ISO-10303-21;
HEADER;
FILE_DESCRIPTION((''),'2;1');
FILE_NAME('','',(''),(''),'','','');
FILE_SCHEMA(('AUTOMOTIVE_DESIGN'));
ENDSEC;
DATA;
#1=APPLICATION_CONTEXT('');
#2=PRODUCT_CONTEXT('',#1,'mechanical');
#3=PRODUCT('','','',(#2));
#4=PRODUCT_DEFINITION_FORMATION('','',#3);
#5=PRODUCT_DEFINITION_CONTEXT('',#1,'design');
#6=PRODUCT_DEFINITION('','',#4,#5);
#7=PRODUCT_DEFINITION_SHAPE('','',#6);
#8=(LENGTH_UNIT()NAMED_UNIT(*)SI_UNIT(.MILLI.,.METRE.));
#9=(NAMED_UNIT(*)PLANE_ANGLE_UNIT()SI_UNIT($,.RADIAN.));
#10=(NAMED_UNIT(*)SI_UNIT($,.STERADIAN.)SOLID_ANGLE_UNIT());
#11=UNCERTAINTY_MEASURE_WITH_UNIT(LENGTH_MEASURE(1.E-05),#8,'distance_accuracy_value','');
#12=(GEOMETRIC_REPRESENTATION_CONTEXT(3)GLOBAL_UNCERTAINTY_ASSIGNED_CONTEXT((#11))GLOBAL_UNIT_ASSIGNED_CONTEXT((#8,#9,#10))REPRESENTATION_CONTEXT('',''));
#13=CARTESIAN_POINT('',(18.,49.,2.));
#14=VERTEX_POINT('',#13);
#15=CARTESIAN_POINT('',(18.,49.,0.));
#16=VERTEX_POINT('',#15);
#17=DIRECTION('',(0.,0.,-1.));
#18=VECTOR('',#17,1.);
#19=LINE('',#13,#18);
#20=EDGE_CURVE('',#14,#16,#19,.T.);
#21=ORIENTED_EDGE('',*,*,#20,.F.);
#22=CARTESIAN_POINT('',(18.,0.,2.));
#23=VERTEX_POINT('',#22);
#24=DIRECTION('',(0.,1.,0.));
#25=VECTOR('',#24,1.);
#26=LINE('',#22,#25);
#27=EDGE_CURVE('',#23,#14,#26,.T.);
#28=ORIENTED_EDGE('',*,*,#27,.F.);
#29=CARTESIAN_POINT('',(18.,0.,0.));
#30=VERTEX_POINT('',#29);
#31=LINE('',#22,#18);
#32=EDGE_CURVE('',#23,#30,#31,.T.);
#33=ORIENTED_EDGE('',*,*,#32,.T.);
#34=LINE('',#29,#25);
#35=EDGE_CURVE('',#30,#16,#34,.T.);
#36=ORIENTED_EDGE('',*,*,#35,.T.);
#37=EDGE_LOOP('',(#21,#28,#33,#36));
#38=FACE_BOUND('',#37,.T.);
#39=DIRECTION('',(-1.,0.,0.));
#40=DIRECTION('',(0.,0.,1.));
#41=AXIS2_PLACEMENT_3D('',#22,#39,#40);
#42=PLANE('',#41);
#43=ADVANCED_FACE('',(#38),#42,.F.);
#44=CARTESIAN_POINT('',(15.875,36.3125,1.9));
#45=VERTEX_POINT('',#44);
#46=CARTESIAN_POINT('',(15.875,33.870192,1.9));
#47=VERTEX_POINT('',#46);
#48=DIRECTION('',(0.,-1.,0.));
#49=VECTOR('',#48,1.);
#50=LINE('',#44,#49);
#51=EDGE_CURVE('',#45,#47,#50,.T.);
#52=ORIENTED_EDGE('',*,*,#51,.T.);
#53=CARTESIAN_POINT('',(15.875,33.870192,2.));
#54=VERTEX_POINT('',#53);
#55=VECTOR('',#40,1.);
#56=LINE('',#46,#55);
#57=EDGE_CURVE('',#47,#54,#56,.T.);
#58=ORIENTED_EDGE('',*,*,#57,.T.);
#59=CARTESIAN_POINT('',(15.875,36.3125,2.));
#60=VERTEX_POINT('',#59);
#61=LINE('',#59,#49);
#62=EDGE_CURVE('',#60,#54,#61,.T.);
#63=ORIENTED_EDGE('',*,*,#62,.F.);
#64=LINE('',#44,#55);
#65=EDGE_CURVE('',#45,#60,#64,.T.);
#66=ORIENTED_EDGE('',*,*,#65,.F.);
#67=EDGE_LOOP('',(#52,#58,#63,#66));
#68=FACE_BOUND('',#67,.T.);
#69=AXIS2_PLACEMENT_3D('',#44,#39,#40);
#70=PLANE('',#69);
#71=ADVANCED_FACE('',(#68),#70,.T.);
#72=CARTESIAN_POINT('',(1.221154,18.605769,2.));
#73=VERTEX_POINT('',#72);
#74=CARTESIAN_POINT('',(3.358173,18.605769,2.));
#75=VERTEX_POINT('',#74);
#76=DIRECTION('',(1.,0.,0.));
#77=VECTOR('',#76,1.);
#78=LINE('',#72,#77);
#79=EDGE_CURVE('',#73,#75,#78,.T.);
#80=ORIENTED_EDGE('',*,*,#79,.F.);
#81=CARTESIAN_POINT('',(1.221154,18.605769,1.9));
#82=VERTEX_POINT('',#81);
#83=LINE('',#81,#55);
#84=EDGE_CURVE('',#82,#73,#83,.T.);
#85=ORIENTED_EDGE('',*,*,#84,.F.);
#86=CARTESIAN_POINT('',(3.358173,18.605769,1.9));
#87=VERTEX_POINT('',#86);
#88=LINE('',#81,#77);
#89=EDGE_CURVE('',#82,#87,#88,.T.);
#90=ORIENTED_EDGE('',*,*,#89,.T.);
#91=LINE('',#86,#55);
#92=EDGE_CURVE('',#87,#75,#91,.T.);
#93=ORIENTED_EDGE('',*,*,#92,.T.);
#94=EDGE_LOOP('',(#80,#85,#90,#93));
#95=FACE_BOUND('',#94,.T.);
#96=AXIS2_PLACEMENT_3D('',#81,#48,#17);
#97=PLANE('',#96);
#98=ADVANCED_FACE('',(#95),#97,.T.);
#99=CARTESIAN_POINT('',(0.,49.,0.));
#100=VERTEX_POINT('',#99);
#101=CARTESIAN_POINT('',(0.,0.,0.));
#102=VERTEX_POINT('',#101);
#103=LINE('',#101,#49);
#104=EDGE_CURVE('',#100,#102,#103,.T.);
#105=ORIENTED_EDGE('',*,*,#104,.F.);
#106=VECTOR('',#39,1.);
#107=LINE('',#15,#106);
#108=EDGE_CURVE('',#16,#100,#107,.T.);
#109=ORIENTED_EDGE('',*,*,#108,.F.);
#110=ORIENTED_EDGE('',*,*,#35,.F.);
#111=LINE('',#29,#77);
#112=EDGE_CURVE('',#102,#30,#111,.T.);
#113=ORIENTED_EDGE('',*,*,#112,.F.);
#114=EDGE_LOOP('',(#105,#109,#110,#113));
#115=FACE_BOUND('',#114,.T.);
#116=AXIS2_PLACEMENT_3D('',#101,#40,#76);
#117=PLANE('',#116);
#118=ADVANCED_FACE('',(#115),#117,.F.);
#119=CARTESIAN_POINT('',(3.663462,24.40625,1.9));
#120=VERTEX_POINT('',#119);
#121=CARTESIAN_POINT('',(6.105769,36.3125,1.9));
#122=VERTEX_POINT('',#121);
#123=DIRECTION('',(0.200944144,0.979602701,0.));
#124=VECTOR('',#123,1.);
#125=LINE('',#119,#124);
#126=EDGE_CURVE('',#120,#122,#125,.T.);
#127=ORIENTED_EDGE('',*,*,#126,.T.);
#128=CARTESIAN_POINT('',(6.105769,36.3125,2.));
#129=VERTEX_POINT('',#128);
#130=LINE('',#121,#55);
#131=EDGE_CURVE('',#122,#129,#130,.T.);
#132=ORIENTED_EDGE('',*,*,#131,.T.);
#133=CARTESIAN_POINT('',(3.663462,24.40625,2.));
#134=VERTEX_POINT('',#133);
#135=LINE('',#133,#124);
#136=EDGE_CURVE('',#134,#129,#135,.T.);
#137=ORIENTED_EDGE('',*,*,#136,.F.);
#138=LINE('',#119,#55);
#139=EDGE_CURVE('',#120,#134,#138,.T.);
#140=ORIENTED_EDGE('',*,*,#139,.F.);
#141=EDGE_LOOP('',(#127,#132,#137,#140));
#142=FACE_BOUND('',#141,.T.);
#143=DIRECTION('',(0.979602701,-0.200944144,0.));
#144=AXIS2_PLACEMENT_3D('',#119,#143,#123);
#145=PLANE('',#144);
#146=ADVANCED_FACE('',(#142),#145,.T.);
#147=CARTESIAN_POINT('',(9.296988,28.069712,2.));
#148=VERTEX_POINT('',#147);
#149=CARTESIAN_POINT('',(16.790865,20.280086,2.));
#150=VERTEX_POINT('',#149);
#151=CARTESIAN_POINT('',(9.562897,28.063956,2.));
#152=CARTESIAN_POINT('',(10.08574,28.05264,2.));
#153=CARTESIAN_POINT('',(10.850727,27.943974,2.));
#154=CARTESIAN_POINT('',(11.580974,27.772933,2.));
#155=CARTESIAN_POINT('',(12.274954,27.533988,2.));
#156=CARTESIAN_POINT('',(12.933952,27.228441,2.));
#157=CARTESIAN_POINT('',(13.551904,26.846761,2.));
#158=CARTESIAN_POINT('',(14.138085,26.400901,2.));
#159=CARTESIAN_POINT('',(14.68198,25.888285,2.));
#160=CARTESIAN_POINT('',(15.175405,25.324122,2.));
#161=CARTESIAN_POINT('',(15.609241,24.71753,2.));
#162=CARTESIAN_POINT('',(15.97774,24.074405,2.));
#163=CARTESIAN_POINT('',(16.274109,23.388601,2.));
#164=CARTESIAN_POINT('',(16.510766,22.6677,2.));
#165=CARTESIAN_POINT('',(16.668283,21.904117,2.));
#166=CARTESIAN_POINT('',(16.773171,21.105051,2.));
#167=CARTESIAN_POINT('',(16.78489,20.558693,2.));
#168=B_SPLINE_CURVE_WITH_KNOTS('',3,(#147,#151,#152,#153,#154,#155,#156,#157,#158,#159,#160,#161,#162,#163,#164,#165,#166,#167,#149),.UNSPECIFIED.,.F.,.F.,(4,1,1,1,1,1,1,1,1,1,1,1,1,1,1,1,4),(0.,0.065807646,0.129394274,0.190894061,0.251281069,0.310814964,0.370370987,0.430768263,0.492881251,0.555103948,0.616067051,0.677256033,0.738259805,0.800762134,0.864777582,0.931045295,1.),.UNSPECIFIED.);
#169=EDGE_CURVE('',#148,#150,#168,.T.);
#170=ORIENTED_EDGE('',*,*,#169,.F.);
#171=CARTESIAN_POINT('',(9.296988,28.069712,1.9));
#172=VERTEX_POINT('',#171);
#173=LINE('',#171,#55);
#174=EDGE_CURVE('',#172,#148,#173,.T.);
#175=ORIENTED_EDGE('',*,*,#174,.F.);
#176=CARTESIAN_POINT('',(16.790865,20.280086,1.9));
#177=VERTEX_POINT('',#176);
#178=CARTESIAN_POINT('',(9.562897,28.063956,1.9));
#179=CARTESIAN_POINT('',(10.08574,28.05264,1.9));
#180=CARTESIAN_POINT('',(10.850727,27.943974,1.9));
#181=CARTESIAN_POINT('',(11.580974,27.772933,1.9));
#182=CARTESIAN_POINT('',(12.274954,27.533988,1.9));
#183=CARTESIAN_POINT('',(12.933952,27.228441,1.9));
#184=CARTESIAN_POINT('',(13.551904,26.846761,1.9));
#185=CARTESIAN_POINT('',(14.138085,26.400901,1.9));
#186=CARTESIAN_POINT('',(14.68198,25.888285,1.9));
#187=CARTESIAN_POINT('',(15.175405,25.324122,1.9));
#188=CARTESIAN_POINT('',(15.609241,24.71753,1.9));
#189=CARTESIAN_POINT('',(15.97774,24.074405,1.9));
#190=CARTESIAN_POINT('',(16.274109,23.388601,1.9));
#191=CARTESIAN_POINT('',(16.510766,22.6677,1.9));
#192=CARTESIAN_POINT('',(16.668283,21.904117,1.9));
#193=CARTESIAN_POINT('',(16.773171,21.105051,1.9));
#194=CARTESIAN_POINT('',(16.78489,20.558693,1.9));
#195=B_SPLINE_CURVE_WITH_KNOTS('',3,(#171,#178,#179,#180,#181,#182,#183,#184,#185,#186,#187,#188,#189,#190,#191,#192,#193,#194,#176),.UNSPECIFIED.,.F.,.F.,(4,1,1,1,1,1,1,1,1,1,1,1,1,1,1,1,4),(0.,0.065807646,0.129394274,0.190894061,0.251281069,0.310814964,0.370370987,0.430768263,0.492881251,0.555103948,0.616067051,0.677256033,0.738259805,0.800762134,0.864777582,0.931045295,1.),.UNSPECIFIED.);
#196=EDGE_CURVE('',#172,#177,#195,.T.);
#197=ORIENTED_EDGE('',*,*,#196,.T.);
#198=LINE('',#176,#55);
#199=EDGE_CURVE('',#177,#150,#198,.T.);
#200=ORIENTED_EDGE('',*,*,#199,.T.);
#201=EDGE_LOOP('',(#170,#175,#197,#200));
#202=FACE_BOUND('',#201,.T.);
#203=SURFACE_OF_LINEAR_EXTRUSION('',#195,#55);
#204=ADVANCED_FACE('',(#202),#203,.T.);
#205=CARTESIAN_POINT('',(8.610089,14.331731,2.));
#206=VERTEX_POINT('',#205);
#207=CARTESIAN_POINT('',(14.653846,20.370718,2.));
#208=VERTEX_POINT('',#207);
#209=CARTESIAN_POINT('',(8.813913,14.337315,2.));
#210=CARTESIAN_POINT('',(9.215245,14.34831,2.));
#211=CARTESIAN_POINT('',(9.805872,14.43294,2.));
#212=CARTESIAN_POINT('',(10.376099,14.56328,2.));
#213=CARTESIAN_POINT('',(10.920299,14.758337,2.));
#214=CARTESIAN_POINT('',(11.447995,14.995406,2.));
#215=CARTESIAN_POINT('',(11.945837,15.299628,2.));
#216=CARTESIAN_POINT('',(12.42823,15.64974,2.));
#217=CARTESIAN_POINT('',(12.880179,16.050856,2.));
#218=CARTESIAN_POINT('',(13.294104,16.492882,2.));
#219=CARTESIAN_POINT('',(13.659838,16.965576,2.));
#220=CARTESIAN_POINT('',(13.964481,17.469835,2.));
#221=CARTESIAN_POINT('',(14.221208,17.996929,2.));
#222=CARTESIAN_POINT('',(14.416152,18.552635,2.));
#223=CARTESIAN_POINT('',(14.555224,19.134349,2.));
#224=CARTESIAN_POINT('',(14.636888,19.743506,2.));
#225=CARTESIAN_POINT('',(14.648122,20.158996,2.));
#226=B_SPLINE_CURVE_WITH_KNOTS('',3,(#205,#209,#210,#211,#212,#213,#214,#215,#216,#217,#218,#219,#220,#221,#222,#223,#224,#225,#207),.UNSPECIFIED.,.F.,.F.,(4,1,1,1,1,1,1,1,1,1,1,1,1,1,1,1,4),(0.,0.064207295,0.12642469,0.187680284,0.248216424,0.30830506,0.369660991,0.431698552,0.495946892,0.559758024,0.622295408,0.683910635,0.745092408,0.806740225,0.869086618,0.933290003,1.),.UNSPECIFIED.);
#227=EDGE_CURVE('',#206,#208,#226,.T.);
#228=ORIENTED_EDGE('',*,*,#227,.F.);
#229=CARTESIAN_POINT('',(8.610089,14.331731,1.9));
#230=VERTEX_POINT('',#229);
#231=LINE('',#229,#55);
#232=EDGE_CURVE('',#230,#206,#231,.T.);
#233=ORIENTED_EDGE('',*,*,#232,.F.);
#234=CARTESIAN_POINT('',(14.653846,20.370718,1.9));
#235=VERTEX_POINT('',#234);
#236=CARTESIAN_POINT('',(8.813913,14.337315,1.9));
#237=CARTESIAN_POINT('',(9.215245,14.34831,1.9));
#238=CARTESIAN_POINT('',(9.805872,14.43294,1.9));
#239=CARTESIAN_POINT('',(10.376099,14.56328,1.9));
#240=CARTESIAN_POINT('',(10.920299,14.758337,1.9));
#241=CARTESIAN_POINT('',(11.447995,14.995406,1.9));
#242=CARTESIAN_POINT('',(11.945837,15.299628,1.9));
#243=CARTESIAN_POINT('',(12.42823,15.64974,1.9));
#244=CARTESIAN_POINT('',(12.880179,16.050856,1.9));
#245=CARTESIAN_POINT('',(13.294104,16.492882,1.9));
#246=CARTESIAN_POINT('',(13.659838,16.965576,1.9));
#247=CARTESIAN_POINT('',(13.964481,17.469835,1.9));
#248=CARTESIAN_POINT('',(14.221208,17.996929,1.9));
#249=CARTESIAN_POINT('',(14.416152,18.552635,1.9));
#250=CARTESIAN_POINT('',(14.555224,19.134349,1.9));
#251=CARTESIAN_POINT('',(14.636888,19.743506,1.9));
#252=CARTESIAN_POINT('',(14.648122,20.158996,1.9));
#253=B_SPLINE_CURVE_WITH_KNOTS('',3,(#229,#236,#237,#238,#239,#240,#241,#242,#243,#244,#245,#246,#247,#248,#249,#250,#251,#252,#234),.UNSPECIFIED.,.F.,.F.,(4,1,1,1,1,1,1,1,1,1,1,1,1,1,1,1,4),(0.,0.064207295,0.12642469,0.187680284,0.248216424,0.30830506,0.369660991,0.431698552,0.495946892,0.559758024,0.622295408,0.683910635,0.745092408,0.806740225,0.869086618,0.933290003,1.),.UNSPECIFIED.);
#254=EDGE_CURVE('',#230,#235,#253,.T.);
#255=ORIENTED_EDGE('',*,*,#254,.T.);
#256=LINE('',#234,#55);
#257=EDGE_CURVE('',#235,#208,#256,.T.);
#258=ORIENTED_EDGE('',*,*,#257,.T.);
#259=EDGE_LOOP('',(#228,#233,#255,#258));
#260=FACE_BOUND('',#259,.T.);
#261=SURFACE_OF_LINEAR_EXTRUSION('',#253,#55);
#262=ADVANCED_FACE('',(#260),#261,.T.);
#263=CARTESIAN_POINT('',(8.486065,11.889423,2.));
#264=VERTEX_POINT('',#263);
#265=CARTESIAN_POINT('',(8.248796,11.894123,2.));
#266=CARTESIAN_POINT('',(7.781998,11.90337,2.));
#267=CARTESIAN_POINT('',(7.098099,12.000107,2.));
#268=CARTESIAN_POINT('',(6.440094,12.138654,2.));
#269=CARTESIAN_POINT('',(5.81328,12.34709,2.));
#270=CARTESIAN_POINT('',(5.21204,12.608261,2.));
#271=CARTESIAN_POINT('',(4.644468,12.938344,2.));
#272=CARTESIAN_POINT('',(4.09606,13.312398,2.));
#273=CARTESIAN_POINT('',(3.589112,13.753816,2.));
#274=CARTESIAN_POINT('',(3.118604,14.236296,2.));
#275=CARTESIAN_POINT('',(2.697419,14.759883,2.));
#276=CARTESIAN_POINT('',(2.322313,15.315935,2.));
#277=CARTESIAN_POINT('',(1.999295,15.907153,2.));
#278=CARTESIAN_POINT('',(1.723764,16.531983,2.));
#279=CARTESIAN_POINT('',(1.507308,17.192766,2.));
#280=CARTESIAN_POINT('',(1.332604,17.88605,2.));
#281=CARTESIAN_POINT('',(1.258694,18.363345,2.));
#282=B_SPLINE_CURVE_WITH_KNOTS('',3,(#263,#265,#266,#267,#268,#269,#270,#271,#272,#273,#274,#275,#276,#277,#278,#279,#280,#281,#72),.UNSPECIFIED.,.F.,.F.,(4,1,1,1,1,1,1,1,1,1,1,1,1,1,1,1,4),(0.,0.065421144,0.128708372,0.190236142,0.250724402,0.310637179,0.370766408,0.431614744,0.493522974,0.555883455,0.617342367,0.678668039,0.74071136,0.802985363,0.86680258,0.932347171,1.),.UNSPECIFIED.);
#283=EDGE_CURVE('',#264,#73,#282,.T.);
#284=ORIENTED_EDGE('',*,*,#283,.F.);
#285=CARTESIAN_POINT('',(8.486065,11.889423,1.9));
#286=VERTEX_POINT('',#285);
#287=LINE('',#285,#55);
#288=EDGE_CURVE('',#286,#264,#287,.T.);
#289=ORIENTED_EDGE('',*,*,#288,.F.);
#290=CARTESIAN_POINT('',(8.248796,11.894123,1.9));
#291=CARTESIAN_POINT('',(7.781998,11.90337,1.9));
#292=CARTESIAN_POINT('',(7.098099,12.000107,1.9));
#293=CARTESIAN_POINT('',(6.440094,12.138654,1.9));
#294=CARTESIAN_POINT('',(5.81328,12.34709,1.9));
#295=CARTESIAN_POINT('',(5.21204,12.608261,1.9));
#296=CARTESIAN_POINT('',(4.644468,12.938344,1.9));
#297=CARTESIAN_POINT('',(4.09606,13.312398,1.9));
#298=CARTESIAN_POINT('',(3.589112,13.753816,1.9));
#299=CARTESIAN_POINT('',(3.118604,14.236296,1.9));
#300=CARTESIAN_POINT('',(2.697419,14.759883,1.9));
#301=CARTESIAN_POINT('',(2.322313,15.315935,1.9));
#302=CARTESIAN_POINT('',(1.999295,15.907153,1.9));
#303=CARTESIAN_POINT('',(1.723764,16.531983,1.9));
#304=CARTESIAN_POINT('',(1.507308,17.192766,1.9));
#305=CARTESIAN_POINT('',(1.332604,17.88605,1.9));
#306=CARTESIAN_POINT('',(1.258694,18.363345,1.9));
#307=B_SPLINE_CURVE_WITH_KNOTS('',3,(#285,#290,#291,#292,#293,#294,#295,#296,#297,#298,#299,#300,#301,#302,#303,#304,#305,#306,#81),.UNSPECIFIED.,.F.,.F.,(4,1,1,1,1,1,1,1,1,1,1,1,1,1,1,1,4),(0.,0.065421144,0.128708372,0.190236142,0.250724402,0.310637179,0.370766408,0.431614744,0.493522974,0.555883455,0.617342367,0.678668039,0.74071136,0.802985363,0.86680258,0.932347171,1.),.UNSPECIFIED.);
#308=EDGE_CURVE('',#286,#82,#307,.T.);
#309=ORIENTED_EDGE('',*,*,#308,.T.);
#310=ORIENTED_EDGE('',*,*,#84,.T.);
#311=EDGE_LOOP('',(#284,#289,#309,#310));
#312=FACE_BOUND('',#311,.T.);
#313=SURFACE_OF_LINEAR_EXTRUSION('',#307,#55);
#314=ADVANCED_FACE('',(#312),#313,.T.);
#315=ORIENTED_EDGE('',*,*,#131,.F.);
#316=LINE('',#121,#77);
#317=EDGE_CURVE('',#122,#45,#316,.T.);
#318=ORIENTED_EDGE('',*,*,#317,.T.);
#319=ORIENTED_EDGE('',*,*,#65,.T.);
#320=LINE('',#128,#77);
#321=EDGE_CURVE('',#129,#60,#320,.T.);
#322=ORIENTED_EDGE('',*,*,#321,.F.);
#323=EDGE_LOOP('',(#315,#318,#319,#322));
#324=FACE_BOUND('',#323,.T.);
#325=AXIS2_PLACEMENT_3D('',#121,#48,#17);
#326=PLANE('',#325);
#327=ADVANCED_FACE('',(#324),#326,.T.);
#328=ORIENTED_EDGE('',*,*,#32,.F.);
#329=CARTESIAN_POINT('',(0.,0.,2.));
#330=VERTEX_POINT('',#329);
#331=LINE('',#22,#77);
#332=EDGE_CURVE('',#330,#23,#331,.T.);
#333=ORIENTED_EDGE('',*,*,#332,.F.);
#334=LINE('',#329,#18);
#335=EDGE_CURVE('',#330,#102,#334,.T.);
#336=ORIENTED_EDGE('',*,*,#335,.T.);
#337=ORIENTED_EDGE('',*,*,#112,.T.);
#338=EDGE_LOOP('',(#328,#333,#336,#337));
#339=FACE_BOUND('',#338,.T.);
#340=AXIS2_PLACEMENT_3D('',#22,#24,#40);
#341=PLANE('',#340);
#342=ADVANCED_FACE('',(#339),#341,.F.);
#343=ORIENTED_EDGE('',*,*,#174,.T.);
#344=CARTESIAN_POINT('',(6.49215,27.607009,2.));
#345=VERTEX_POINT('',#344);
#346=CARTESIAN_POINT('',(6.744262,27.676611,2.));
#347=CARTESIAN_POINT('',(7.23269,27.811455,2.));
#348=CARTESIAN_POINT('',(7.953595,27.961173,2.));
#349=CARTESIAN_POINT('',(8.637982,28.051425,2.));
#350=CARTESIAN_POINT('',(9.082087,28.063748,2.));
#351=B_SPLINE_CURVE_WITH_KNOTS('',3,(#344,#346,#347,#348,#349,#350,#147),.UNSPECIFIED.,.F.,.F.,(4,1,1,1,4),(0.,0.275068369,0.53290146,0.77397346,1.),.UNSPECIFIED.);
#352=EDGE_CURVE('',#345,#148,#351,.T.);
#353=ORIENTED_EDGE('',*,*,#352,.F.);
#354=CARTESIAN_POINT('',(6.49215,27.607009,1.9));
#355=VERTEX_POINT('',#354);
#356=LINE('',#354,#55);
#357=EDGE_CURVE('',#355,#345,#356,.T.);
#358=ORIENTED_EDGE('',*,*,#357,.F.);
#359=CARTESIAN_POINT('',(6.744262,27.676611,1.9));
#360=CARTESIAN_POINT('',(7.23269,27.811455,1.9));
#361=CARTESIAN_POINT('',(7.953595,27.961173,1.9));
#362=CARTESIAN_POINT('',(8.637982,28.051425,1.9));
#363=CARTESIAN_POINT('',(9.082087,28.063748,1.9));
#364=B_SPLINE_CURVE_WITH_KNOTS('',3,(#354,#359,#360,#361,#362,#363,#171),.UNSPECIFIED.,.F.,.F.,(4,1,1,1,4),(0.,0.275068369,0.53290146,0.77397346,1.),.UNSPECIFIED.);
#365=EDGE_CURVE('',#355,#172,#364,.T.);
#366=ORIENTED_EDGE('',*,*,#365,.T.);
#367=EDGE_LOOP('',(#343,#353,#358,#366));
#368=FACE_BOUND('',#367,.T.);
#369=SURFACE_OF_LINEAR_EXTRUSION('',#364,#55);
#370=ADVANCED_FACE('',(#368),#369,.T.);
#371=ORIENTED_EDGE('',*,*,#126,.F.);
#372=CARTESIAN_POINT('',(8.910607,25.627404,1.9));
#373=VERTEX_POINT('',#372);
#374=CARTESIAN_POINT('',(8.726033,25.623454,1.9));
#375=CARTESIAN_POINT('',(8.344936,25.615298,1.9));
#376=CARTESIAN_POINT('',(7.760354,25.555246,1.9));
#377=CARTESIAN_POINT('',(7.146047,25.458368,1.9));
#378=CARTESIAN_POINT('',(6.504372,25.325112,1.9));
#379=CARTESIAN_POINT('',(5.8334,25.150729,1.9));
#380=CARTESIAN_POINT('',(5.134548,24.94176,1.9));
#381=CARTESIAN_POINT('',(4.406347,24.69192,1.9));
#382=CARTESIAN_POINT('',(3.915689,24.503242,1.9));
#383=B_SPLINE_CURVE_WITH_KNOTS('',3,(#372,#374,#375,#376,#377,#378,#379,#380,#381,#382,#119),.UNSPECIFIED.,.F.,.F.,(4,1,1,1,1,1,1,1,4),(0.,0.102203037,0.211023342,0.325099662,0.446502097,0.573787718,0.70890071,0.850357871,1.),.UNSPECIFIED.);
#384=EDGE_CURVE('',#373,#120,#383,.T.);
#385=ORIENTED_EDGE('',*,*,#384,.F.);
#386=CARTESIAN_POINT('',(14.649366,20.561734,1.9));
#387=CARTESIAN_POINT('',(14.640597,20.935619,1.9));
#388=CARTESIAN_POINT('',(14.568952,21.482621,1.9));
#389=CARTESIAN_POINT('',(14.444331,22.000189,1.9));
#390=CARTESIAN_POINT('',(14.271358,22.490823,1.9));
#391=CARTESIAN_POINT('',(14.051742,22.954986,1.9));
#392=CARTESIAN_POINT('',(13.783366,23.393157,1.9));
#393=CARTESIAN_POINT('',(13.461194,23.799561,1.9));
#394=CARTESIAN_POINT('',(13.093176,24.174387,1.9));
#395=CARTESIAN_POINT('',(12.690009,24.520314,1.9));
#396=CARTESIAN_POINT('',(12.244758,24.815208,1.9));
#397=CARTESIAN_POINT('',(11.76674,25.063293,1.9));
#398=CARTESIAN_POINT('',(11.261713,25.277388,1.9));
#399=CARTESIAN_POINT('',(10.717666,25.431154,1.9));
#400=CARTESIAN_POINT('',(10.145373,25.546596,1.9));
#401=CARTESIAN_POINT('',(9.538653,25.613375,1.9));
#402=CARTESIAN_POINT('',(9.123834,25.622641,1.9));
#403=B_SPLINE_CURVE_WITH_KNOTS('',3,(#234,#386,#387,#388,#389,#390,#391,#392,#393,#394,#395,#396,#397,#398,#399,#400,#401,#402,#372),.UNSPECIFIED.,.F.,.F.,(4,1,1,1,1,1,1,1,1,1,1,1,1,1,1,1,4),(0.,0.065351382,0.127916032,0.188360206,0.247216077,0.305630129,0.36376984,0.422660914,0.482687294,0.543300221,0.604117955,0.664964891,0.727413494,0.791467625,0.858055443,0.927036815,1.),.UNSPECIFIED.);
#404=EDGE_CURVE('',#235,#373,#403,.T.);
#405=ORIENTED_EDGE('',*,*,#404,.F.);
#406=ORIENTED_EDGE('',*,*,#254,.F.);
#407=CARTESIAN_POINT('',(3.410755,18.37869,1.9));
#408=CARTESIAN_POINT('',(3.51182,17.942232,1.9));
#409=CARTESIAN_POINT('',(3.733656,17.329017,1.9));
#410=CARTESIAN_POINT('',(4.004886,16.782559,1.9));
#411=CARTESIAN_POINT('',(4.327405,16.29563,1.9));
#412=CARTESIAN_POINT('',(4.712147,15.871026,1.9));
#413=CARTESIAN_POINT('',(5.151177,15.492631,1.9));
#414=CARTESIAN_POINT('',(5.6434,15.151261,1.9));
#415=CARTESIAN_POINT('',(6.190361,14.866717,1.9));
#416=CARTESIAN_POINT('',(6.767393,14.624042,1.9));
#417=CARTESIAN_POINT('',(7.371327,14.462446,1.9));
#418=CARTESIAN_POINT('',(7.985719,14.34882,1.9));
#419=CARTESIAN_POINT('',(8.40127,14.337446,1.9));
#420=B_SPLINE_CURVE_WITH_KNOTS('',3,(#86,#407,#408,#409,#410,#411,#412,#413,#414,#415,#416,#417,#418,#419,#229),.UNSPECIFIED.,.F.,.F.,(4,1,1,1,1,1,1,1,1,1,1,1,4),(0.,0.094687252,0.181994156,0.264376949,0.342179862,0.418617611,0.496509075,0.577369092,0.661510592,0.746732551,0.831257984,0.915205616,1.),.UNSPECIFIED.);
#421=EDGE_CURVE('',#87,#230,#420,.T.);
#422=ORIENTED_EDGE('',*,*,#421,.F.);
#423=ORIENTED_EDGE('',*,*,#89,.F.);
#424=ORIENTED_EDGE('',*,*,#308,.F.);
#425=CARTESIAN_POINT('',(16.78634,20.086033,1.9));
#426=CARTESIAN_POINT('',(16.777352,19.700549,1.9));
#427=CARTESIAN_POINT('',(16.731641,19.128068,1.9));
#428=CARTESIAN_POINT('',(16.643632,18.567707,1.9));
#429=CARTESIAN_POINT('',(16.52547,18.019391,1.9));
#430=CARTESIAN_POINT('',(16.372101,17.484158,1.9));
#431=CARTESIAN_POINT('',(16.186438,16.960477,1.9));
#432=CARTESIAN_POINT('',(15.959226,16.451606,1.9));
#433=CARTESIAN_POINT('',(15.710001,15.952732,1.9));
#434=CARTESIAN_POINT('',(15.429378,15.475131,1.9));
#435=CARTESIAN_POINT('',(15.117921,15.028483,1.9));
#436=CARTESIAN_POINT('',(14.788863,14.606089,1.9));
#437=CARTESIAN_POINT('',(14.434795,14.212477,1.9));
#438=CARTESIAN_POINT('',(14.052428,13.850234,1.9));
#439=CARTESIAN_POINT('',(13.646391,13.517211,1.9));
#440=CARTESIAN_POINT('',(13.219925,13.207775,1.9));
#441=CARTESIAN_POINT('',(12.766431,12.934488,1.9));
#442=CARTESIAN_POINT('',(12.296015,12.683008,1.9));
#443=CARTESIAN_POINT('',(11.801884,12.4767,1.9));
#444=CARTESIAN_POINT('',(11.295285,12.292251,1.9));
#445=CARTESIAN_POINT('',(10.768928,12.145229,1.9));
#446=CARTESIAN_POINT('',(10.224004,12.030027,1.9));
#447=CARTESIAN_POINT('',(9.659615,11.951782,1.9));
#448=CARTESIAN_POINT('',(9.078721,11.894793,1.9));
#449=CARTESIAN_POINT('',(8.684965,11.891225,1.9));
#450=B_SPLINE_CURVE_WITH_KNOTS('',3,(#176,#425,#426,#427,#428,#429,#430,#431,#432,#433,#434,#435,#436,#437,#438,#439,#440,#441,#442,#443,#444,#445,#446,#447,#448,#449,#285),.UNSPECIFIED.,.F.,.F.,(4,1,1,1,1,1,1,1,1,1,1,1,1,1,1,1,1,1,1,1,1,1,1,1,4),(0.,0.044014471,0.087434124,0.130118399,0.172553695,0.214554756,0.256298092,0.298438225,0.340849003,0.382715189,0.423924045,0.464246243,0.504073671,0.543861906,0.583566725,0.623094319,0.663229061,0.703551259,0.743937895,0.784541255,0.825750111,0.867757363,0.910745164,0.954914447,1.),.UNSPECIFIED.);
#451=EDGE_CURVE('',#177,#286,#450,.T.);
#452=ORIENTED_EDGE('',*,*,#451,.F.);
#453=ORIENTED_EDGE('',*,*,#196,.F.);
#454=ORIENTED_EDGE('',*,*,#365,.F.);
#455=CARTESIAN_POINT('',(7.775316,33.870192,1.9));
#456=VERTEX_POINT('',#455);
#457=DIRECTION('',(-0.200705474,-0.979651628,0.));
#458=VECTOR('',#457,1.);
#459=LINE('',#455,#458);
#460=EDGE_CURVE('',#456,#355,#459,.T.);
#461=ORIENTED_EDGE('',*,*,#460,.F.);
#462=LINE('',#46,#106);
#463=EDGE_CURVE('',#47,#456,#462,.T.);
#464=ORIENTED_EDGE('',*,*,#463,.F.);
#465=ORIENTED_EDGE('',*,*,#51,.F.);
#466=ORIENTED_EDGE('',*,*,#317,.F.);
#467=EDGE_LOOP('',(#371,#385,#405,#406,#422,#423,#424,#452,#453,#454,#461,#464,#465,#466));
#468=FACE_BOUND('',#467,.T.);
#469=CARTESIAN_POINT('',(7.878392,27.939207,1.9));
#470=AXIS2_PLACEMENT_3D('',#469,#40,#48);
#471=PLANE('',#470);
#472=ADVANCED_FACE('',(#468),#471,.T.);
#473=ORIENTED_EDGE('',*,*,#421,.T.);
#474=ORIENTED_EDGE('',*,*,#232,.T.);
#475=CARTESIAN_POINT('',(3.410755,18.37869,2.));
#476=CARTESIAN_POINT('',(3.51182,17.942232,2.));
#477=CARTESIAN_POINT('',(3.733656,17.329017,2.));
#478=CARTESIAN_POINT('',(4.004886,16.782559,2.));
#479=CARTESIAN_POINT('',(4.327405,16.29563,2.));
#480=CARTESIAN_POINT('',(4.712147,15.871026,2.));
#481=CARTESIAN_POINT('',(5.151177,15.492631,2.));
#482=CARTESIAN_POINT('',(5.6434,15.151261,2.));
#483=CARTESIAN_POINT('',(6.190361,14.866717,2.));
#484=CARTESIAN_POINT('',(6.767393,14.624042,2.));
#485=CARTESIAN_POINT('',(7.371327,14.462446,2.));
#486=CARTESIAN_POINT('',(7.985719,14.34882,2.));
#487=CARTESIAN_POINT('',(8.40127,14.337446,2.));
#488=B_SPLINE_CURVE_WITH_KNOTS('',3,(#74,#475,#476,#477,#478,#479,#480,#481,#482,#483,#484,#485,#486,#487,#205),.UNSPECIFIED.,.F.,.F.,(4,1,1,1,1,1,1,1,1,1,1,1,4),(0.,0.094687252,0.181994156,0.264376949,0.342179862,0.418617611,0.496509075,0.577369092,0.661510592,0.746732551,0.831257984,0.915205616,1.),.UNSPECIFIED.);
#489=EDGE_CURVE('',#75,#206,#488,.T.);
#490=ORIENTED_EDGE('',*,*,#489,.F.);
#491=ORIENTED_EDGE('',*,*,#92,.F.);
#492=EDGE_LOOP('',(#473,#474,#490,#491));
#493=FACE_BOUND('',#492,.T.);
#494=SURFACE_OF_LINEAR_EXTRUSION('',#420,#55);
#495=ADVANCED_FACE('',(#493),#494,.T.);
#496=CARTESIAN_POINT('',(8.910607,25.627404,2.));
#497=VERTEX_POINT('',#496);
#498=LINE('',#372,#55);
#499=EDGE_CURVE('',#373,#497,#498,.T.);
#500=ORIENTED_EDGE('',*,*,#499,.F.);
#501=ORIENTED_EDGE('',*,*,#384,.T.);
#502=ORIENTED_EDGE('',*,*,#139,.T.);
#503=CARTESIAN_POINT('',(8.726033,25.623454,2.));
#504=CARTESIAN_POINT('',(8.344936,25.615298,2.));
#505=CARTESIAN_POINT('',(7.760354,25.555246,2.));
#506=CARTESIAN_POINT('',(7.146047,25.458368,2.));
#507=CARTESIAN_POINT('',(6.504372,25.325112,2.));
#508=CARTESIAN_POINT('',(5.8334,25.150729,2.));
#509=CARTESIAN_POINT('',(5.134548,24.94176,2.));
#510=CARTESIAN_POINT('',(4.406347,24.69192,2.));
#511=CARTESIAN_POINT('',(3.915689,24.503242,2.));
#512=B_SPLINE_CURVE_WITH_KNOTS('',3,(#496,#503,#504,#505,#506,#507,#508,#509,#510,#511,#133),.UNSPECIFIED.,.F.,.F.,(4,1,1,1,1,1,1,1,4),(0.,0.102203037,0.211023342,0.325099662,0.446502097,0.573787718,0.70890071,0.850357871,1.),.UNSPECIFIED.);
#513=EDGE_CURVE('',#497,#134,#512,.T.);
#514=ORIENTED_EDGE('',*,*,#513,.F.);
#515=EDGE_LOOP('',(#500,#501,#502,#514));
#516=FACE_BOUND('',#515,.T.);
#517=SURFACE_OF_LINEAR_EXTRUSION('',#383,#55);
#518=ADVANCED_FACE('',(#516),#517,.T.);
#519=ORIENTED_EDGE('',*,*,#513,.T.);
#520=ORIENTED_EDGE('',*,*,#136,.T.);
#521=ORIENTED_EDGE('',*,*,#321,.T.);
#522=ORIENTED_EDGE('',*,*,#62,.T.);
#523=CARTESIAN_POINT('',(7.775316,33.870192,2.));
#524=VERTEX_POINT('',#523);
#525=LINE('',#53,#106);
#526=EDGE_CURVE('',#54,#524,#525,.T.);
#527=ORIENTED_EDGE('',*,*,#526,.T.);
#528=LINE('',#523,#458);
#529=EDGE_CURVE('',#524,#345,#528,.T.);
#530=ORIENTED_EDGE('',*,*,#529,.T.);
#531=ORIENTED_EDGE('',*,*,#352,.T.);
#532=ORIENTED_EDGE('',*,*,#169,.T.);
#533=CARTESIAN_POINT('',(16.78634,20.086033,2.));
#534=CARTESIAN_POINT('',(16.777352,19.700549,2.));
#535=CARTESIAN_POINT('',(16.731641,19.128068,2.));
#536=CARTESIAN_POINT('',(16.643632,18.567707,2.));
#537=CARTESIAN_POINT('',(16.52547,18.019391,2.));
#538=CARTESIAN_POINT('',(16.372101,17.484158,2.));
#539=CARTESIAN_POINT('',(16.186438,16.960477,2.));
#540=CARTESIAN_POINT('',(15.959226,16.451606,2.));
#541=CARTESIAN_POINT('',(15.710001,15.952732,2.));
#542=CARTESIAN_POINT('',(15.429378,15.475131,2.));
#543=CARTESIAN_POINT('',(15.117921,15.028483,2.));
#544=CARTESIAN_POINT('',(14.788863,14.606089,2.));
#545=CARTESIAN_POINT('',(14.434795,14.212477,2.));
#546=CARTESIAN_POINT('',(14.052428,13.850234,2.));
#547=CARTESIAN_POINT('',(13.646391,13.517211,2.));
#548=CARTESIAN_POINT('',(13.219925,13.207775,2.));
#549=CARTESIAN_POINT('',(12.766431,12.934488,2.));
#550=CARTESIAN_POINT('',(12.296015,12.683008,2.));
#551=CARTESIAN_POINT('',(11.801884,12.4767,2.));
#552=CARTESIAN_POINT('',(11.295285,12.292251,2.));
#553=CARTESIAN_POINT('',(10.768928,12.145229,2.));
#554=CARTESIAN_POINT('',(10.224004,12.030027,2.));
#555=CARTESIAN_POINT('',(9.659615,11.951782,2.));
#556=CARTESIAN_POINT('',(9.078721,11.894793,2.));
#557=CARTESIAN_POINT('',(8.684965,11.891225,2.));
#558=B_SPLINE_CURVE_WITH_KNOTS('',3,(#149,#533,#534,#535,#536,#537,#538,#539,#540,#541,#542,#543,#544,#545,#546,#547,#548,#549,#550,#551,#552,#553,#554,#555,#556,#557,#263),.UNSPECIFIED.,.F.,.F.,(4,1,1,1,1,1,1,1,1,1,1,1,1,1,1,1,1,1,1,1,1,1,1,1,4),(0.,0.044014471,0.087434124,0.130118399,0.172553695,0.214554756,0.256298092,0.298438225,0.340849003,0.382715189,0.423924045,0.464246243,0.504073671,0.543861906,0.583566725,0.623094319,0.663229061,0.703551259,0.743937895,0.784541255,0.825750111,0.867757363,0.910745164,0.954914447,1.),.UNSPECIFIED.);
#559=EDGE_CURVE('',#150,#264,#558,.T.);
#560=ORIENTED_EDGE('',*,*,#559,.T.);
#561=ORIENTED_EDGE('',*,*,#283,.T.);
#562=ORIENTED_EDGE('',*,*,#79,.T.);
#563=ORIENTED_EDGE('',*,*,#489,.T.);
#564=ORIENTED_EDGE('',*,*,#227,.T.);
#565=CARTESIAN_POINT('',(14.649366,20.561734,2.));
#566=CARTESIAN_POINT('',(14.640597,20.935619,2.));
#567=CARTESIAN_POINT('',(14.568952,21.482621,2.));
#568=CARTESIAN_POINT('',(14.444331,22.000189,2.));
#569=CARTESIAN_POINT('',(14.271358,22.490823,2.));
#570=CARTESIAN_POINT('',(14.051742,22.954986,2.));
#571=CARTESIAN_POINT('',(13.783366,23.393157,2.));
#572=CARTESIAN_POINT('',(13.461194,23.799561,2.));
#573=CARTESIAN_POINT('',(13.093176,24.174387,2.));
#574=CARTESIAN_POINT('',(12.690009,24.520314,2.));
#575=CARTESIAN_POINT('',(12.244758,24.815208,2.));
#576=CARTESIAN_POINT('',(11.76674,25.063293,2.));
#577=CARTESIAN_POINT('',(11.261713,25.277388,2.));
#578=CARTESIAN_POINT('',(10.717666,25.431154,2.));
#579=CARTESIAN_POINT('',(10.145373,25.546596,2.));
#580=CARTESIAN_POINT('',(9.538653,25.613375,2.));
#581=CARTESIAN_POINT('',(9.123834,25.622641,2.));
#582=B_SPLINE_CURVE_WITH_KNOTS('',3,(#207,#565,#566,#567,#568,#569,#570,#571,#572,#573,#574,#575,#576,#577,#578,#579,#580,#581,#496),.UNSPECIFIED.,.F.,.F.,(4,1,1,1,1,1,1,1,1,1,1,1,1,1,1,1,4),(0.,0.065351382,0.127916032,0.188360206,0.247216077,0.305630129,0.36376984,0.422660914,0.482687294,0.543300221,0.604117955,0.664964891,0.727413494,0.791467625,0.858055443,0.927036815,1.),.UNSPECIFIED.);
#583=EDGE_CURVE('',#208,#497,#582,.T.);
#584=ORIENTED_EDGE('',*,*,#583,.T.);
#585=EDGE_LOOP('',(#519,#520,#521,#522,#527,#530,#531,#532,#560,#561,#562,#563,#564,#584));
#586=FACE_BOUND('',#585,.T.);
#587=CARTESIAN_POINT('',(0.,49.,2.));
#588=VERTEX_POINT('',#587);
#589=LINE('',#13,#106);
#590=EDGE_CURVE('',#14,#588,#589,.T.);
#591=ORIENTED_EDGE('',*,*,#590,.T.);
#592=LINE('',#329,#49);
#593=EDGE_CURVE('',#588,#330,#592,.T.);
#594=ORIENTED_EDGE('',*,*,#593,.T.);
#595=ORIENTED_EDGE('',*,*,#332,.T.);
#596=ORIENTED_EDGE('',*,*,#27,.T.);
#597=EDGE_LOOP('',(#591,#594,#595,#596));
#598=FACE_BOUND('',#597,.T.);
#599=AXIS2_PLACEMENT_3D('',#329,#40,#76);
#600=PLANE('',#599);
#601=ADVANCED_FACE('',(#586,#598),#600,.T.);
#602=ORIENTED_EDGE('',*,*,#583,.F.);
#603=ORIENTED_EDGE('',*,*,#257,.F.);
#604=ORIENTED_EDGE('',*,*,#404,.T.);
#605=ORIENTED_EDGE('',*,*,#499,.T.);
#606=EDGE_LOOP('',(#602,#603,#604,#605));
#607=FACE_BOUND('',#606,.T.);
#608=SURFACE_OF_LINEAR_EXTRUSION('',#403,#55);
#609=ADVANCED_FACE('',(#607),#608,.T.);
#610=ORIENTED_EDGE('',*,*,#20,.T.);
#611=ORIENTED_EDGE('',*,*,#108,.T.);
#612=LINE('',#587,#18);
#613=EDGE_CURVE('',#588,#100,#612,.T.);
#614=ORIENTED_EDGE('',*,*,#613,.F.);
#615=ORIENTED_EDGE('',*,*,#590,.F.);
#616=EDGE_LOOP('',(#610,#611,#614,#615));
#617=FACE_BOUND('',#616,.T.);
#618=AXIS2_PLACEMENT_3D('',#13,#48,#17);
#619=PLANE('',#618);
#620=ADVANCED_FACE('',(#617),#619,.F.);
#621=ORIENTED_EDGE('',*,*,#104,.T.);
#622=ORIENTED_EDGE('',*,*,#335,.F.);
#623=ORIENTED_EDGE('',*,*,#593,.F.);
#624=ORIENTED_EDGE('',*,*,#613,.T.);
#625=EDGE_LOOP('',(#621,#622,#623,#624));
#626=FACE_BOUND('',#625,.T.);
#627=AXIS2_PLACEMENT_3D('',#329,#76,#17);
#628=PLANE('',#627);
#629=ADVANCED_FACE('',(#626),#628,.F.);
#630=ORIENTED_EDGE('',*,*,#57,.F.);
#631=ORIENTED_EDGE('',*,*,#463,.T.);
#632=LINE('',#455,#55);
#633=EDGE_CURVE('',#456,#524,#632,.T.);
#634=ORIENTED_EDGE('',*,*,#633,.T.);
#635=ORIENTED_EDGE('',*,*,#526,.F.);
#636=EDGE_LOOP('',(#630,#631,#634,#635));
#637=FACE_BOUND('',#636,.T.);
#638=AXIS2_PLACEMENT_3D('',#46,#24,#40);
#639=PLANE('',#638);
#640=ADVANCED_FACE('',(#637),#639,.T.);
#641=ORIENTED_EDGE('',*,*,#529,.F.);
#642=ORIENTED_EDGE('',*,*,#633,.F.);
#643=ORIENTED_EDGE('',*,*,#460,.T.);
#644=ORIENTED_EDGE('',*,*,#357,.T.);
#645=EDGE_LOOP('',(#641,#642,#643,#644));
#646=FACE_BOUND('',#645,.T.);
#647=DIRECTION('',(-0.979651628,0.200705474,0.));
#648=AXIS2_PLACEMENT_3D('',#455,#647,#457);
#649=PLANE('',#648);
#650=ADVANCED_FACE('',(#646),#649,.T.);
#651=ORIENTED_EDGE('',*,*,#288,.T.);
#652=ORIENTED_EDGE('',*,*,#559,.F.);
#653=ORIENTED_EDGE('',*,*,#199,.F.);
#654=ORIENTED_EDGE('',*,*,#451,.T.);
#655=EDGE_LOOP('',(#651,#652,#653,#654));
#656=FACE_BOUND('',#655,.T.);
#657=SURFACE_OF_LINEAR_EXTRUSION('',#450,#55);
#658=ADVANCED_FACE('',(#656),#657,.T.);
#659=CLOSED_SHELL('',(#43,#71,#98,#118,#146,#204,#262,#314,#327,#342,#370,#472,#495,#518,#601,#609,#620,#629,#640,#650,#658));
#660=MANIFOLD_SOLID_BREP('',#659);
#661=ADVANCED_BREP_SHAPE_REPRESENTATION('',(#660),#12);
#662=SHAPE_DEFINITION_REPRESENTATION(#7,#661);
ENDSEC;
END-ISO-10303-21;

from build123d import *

# Parameters (mm, degrees)
SKETCH_1_W          = 18
SKETCH_1_H          = 49
EXTRUDE_1_DEPTH     = 2
CUT_EXTRUDE_1_DEPTH = 0.1


with BuildPart() as part:
    # ｽｹｯﾁ1 → ﾎﾞｽ - 押し出し1 (new body)
    with BuildSketch(Plane.XY):
        with Locations((9, 24.5)):
            Rectangle(SKETCH_1_W, SKETCH_1_H)
    extrude(amount=EXTRUDE_1_DEPTH)

    # ｽｹｯﾁ2 → ｶｯﾄ - 押し出し1 (cut)
    with BuildSketch(Plane.XY.offset(2)):
        with BuildLine():
            Line((15.875, 36.3125), (15.875, 33.870192308))
            Line((15.875, 33.870192308), (7.775315505, 33.870192308))
            Line((7.775315505, 33.870192308), (6.49214994, 27.607008714))
            add(Edge.make_bspline(
                [(6.49214994, 27.607008714), (6.744262228, 27.676611099), (7.232689912, 27.811454712), (7.953595395, 27.961172542), (8.637981636, 28.051424939), (9.082087281, 28.063748319), (9.29698768, 28.069711538)],
                knots=[0, 0, 0, 0, 1.100273476, 2.13160584, 3.095893838, 4, 4, 4, 4], degree=3))
            add(Edge.make_bspline(
                [(9.29698768, 28.069711538), (9.562896695, 28.063956155), (10.085740255, 28.052639632), (10.850726663, 27.943974013), (11.580973668, 27.772932808), (12.27495408, 27.53398783), (12.933951755, 27.228441252), (13.551903557, 26.846761301), (14.138085072, 26.400900602), (14.68198022, 25.888285431), (15.175404531, 25.324122288), (15.609240996, 24.717530344), (15.977740048, 24.074404643), (16.274108756, 23.388600502), (16.510766458, 22.667699833), (16.668282709, 21.904117441), (16.77317139, 21.105050767), (16.784889768, 20.558692889), (16.790865385, 20.280085637)],
                knots=[0, 0, 0, 0, 1.052922333, 2.070308379, 3.05430497, 4.020497103, 4.973039431, 5.925935799, 6.892292201, 7.88610001, 8.88166317, 9.857072816, 10.836096531, 11.812156883, 12.81219415, 13.836441305, 14.89672472, 16, 16, 16, 16], degree=3))
            add(Edge.make_bspline(
                [(16.790865385, 20.280085637), (16.786340497, 20.086032674), (16.777351873, 19.700549205), (16.731641482, 19.128068125), (16.643632414, 18.567706707), (16.525469862, 18.019390612), (16.372100912, 17.48415792), (16.186437884, 16.960476631), (15.959225626, 16.451606182), (15.710001448, 15.952731619), (15.429378088, 15.475131061), (15.117920743, 15.028483492), (14.788862669, 14.606088649), (14.434795386, 14.212476644), (14.052427901, 13.850233968), (13.646390984, 13.517210839), (13.219924628, 13.20777536), (12.766430926, 12.934488174), (12.296015104, 12.683008062), (11.801883841, 12.47669971), (11.295285147, 12.292251296), (10.76892769, 12.145229331), (10.224003714, 12.030027487), (9.659614974, 11.951782329), (9.078721487, 11.894792638), (8.684964705, 11.891225138), (8.486065204, 11.889423077)],
                knots=[0, 0, 0, 0, 1.056347294, 2.098418968, 3.122841568, 4.141288669, 5.149314143, 6.15115421, 7.162517403, 8.180376062, 9.185164535, 10.17417709, 11.141909838, 12.097768115, 13.052685741, 14.0056014, 14.954263652, 15.917497458, 16.885230207, 17.854509472, 18.828990115, 19.81800267, 20.826176721, 21.857883937, 22.917946725, 24, 24, 24, 24], degree=3))
            add(Edge.make_bspline(
                [(8.486065204, 11.889423077), (8.248796225, 11.894123242), (7.781997537, 11.903370263), (7.098098679, 12.000106743), (6.440093951, 12.138654103), (5.813280227, 12.347090153), (5.212040023, 12.608260854), (4.644467603, 12.938344093), (4.096060448, 13.312398352), (3.589112484, 13.753816468), (3.118603926, 14.236296376), (2.697418571, 14.759883184), (2.322313344, 15.315935282), (1.999295101, 15.90715308), (1.72376392, 16.531983085), (1.507308375, 17.192766359), (1.332603853, 17.886050314), (1.258693796, 18.363344733), (1.221153846, 18.605769231)],
                knots=[0, 0, 0, 0, 1.0467383, 2.05933395, 3.04377827, 4.011590433, 4.970194871, 5.932262533, 6.905835911, 7.896367577, 8.894135286, 9.877477877, 10.858688626, 11.851381753, 12.8477658, 13.868841284, 14.917554742, 16, 16, 16, 16], degree=3))
            Line((1.221153846, 18.605769231), (3.358173077, 18.605769231))
            add(Edge.make_bspline(
                [(3.358173077, 18.605769231), (3.410754869, 18.378690153), (3.511819994, 17.942231555), (3.733655534, 17.329016537), (4.004885865, 16.782558961), (4.327404736, 16.295630189), (4.712146908, 15.871026119), (5.151177487, 15.492631465), (5.643400389, 15.151261389), (6.190361469, 14.866717205), (6.767393312, 14.624042293), (7.371327366, 14.46244594), (7.985719437, 14.348820223), (8.401270492, 14.337446279), (8.610088642, 14.331730769)],
                knots=[0, 0, 0, 0, 1.136247022, 2.183929868, 3.172523383, 4.106158343, 5.02341133, 5.958108904, 6.928429099, 7.938127109, 8.96079061, 9.975095812, 10.982467395, 12, 12, 12, 12], degree=3))
            add(Edge.make_bspline(
                [(8.610088642, 14.331730769), (8.813913058, 14.33731499), (9.215245002, 14.348310367), (9.805872472, 14.432940075), (10.376099349, 14.563279979), (10.920299044, 14.758337386), (11.447994518, 14.995405916), (11.945837492, 15.299628129), (12.428230281, 15.64974004), (12.880178833, 16.050855684), (13.294104371, 16.492881642), (13.659837981, 16.96557605), (13.96448091, 17.46983531), (14.221207615, 17.996929439), (14.41615238, 18.552635337), (14.555224056, 19.13434869), (14.636887724, 19.743506323), (14.648121645, 20.158995734), (14.653846154, 20.370718149)],
                knots=[0, 0, 0, 0, 1.027316725, 2.022795036, 3.002884548, 3.971462791, 4.93288096, 5.914575861, 6.907176829, 7.935150275, 8.956128384, 9.956726525, 10.942570165, 11.921478529, 12.907843606, 13.90538589, 14.932640048, 16, 16, 16, 16], degree=3))
            add(Edge.make_bspline(
                [(14.653846154, 20.370718149), (14.649366142, 20.561733531), (14.640597156, 20.935618961), (14.568951668, 21.482620705), (14.444330839, 22.000189082), (14.271357655, 22.490823424), (14.051741719, 22.954986487), (13.783365915, 23.393157308), (13.46119369, 23.799560709), (13.093175662, 24.174386832), (12.690009348, 24.52031357), (12.244758171, 24.815208159), (11.76673974, 25.063293027), (11.261713358, 25.277387801), (10.717666459, 25.431153587), (10.145372942, 25.546595808), (9.53865284, 25.613375329), (9.123834408, 25.622641033), (8.910606971, 25.627403846)],
                knots=[0, 0, 0, 0, 1.045622112, 2.046656509, 3.013763289, 3.955457236, 4.890082067, 5.820317437, 6.762574623, 7.722996705, 8.69280354, 9.665887285, 10.63943826, 11.638615906, 12.663482002, 13.728887084, 14.832589034, 16, 16, 16, 16], degree=3))
            add(Edge.make_bspline(
                [(8.910606971, 25.627403846), (8.726033366, 25.623453753), (8.344935699, 25.615297812), (7.76035361, 25.55524611), (7.146047423, 25.458368054), (6.504372016, 25.32511162), (5.833400345, 25.150728758), (5.134548368, 24.94176046), (4.406346697, 24.691919718), (3.915688608, 24.503241621), (3.663461538, 24.40625)],
                knots=[0, 0, 0, 0, 0.817624296, 1.688186739, 2.600797293, 3.572016777, 4.590301741, 5.671205678, 6.80286297, 8, 8, 8, 8], degree=3))
            Line((3.663461538, 24.40625), (6.105769231, 36.3125))
            Line((6.105769231, 36.3125), (15.875, 36.3125))
        make_face()
    extrude(amount=-CUT_EXTRUDE_1_DEPTH, mode=Mode.SUBTRACT)


solid = part.part
